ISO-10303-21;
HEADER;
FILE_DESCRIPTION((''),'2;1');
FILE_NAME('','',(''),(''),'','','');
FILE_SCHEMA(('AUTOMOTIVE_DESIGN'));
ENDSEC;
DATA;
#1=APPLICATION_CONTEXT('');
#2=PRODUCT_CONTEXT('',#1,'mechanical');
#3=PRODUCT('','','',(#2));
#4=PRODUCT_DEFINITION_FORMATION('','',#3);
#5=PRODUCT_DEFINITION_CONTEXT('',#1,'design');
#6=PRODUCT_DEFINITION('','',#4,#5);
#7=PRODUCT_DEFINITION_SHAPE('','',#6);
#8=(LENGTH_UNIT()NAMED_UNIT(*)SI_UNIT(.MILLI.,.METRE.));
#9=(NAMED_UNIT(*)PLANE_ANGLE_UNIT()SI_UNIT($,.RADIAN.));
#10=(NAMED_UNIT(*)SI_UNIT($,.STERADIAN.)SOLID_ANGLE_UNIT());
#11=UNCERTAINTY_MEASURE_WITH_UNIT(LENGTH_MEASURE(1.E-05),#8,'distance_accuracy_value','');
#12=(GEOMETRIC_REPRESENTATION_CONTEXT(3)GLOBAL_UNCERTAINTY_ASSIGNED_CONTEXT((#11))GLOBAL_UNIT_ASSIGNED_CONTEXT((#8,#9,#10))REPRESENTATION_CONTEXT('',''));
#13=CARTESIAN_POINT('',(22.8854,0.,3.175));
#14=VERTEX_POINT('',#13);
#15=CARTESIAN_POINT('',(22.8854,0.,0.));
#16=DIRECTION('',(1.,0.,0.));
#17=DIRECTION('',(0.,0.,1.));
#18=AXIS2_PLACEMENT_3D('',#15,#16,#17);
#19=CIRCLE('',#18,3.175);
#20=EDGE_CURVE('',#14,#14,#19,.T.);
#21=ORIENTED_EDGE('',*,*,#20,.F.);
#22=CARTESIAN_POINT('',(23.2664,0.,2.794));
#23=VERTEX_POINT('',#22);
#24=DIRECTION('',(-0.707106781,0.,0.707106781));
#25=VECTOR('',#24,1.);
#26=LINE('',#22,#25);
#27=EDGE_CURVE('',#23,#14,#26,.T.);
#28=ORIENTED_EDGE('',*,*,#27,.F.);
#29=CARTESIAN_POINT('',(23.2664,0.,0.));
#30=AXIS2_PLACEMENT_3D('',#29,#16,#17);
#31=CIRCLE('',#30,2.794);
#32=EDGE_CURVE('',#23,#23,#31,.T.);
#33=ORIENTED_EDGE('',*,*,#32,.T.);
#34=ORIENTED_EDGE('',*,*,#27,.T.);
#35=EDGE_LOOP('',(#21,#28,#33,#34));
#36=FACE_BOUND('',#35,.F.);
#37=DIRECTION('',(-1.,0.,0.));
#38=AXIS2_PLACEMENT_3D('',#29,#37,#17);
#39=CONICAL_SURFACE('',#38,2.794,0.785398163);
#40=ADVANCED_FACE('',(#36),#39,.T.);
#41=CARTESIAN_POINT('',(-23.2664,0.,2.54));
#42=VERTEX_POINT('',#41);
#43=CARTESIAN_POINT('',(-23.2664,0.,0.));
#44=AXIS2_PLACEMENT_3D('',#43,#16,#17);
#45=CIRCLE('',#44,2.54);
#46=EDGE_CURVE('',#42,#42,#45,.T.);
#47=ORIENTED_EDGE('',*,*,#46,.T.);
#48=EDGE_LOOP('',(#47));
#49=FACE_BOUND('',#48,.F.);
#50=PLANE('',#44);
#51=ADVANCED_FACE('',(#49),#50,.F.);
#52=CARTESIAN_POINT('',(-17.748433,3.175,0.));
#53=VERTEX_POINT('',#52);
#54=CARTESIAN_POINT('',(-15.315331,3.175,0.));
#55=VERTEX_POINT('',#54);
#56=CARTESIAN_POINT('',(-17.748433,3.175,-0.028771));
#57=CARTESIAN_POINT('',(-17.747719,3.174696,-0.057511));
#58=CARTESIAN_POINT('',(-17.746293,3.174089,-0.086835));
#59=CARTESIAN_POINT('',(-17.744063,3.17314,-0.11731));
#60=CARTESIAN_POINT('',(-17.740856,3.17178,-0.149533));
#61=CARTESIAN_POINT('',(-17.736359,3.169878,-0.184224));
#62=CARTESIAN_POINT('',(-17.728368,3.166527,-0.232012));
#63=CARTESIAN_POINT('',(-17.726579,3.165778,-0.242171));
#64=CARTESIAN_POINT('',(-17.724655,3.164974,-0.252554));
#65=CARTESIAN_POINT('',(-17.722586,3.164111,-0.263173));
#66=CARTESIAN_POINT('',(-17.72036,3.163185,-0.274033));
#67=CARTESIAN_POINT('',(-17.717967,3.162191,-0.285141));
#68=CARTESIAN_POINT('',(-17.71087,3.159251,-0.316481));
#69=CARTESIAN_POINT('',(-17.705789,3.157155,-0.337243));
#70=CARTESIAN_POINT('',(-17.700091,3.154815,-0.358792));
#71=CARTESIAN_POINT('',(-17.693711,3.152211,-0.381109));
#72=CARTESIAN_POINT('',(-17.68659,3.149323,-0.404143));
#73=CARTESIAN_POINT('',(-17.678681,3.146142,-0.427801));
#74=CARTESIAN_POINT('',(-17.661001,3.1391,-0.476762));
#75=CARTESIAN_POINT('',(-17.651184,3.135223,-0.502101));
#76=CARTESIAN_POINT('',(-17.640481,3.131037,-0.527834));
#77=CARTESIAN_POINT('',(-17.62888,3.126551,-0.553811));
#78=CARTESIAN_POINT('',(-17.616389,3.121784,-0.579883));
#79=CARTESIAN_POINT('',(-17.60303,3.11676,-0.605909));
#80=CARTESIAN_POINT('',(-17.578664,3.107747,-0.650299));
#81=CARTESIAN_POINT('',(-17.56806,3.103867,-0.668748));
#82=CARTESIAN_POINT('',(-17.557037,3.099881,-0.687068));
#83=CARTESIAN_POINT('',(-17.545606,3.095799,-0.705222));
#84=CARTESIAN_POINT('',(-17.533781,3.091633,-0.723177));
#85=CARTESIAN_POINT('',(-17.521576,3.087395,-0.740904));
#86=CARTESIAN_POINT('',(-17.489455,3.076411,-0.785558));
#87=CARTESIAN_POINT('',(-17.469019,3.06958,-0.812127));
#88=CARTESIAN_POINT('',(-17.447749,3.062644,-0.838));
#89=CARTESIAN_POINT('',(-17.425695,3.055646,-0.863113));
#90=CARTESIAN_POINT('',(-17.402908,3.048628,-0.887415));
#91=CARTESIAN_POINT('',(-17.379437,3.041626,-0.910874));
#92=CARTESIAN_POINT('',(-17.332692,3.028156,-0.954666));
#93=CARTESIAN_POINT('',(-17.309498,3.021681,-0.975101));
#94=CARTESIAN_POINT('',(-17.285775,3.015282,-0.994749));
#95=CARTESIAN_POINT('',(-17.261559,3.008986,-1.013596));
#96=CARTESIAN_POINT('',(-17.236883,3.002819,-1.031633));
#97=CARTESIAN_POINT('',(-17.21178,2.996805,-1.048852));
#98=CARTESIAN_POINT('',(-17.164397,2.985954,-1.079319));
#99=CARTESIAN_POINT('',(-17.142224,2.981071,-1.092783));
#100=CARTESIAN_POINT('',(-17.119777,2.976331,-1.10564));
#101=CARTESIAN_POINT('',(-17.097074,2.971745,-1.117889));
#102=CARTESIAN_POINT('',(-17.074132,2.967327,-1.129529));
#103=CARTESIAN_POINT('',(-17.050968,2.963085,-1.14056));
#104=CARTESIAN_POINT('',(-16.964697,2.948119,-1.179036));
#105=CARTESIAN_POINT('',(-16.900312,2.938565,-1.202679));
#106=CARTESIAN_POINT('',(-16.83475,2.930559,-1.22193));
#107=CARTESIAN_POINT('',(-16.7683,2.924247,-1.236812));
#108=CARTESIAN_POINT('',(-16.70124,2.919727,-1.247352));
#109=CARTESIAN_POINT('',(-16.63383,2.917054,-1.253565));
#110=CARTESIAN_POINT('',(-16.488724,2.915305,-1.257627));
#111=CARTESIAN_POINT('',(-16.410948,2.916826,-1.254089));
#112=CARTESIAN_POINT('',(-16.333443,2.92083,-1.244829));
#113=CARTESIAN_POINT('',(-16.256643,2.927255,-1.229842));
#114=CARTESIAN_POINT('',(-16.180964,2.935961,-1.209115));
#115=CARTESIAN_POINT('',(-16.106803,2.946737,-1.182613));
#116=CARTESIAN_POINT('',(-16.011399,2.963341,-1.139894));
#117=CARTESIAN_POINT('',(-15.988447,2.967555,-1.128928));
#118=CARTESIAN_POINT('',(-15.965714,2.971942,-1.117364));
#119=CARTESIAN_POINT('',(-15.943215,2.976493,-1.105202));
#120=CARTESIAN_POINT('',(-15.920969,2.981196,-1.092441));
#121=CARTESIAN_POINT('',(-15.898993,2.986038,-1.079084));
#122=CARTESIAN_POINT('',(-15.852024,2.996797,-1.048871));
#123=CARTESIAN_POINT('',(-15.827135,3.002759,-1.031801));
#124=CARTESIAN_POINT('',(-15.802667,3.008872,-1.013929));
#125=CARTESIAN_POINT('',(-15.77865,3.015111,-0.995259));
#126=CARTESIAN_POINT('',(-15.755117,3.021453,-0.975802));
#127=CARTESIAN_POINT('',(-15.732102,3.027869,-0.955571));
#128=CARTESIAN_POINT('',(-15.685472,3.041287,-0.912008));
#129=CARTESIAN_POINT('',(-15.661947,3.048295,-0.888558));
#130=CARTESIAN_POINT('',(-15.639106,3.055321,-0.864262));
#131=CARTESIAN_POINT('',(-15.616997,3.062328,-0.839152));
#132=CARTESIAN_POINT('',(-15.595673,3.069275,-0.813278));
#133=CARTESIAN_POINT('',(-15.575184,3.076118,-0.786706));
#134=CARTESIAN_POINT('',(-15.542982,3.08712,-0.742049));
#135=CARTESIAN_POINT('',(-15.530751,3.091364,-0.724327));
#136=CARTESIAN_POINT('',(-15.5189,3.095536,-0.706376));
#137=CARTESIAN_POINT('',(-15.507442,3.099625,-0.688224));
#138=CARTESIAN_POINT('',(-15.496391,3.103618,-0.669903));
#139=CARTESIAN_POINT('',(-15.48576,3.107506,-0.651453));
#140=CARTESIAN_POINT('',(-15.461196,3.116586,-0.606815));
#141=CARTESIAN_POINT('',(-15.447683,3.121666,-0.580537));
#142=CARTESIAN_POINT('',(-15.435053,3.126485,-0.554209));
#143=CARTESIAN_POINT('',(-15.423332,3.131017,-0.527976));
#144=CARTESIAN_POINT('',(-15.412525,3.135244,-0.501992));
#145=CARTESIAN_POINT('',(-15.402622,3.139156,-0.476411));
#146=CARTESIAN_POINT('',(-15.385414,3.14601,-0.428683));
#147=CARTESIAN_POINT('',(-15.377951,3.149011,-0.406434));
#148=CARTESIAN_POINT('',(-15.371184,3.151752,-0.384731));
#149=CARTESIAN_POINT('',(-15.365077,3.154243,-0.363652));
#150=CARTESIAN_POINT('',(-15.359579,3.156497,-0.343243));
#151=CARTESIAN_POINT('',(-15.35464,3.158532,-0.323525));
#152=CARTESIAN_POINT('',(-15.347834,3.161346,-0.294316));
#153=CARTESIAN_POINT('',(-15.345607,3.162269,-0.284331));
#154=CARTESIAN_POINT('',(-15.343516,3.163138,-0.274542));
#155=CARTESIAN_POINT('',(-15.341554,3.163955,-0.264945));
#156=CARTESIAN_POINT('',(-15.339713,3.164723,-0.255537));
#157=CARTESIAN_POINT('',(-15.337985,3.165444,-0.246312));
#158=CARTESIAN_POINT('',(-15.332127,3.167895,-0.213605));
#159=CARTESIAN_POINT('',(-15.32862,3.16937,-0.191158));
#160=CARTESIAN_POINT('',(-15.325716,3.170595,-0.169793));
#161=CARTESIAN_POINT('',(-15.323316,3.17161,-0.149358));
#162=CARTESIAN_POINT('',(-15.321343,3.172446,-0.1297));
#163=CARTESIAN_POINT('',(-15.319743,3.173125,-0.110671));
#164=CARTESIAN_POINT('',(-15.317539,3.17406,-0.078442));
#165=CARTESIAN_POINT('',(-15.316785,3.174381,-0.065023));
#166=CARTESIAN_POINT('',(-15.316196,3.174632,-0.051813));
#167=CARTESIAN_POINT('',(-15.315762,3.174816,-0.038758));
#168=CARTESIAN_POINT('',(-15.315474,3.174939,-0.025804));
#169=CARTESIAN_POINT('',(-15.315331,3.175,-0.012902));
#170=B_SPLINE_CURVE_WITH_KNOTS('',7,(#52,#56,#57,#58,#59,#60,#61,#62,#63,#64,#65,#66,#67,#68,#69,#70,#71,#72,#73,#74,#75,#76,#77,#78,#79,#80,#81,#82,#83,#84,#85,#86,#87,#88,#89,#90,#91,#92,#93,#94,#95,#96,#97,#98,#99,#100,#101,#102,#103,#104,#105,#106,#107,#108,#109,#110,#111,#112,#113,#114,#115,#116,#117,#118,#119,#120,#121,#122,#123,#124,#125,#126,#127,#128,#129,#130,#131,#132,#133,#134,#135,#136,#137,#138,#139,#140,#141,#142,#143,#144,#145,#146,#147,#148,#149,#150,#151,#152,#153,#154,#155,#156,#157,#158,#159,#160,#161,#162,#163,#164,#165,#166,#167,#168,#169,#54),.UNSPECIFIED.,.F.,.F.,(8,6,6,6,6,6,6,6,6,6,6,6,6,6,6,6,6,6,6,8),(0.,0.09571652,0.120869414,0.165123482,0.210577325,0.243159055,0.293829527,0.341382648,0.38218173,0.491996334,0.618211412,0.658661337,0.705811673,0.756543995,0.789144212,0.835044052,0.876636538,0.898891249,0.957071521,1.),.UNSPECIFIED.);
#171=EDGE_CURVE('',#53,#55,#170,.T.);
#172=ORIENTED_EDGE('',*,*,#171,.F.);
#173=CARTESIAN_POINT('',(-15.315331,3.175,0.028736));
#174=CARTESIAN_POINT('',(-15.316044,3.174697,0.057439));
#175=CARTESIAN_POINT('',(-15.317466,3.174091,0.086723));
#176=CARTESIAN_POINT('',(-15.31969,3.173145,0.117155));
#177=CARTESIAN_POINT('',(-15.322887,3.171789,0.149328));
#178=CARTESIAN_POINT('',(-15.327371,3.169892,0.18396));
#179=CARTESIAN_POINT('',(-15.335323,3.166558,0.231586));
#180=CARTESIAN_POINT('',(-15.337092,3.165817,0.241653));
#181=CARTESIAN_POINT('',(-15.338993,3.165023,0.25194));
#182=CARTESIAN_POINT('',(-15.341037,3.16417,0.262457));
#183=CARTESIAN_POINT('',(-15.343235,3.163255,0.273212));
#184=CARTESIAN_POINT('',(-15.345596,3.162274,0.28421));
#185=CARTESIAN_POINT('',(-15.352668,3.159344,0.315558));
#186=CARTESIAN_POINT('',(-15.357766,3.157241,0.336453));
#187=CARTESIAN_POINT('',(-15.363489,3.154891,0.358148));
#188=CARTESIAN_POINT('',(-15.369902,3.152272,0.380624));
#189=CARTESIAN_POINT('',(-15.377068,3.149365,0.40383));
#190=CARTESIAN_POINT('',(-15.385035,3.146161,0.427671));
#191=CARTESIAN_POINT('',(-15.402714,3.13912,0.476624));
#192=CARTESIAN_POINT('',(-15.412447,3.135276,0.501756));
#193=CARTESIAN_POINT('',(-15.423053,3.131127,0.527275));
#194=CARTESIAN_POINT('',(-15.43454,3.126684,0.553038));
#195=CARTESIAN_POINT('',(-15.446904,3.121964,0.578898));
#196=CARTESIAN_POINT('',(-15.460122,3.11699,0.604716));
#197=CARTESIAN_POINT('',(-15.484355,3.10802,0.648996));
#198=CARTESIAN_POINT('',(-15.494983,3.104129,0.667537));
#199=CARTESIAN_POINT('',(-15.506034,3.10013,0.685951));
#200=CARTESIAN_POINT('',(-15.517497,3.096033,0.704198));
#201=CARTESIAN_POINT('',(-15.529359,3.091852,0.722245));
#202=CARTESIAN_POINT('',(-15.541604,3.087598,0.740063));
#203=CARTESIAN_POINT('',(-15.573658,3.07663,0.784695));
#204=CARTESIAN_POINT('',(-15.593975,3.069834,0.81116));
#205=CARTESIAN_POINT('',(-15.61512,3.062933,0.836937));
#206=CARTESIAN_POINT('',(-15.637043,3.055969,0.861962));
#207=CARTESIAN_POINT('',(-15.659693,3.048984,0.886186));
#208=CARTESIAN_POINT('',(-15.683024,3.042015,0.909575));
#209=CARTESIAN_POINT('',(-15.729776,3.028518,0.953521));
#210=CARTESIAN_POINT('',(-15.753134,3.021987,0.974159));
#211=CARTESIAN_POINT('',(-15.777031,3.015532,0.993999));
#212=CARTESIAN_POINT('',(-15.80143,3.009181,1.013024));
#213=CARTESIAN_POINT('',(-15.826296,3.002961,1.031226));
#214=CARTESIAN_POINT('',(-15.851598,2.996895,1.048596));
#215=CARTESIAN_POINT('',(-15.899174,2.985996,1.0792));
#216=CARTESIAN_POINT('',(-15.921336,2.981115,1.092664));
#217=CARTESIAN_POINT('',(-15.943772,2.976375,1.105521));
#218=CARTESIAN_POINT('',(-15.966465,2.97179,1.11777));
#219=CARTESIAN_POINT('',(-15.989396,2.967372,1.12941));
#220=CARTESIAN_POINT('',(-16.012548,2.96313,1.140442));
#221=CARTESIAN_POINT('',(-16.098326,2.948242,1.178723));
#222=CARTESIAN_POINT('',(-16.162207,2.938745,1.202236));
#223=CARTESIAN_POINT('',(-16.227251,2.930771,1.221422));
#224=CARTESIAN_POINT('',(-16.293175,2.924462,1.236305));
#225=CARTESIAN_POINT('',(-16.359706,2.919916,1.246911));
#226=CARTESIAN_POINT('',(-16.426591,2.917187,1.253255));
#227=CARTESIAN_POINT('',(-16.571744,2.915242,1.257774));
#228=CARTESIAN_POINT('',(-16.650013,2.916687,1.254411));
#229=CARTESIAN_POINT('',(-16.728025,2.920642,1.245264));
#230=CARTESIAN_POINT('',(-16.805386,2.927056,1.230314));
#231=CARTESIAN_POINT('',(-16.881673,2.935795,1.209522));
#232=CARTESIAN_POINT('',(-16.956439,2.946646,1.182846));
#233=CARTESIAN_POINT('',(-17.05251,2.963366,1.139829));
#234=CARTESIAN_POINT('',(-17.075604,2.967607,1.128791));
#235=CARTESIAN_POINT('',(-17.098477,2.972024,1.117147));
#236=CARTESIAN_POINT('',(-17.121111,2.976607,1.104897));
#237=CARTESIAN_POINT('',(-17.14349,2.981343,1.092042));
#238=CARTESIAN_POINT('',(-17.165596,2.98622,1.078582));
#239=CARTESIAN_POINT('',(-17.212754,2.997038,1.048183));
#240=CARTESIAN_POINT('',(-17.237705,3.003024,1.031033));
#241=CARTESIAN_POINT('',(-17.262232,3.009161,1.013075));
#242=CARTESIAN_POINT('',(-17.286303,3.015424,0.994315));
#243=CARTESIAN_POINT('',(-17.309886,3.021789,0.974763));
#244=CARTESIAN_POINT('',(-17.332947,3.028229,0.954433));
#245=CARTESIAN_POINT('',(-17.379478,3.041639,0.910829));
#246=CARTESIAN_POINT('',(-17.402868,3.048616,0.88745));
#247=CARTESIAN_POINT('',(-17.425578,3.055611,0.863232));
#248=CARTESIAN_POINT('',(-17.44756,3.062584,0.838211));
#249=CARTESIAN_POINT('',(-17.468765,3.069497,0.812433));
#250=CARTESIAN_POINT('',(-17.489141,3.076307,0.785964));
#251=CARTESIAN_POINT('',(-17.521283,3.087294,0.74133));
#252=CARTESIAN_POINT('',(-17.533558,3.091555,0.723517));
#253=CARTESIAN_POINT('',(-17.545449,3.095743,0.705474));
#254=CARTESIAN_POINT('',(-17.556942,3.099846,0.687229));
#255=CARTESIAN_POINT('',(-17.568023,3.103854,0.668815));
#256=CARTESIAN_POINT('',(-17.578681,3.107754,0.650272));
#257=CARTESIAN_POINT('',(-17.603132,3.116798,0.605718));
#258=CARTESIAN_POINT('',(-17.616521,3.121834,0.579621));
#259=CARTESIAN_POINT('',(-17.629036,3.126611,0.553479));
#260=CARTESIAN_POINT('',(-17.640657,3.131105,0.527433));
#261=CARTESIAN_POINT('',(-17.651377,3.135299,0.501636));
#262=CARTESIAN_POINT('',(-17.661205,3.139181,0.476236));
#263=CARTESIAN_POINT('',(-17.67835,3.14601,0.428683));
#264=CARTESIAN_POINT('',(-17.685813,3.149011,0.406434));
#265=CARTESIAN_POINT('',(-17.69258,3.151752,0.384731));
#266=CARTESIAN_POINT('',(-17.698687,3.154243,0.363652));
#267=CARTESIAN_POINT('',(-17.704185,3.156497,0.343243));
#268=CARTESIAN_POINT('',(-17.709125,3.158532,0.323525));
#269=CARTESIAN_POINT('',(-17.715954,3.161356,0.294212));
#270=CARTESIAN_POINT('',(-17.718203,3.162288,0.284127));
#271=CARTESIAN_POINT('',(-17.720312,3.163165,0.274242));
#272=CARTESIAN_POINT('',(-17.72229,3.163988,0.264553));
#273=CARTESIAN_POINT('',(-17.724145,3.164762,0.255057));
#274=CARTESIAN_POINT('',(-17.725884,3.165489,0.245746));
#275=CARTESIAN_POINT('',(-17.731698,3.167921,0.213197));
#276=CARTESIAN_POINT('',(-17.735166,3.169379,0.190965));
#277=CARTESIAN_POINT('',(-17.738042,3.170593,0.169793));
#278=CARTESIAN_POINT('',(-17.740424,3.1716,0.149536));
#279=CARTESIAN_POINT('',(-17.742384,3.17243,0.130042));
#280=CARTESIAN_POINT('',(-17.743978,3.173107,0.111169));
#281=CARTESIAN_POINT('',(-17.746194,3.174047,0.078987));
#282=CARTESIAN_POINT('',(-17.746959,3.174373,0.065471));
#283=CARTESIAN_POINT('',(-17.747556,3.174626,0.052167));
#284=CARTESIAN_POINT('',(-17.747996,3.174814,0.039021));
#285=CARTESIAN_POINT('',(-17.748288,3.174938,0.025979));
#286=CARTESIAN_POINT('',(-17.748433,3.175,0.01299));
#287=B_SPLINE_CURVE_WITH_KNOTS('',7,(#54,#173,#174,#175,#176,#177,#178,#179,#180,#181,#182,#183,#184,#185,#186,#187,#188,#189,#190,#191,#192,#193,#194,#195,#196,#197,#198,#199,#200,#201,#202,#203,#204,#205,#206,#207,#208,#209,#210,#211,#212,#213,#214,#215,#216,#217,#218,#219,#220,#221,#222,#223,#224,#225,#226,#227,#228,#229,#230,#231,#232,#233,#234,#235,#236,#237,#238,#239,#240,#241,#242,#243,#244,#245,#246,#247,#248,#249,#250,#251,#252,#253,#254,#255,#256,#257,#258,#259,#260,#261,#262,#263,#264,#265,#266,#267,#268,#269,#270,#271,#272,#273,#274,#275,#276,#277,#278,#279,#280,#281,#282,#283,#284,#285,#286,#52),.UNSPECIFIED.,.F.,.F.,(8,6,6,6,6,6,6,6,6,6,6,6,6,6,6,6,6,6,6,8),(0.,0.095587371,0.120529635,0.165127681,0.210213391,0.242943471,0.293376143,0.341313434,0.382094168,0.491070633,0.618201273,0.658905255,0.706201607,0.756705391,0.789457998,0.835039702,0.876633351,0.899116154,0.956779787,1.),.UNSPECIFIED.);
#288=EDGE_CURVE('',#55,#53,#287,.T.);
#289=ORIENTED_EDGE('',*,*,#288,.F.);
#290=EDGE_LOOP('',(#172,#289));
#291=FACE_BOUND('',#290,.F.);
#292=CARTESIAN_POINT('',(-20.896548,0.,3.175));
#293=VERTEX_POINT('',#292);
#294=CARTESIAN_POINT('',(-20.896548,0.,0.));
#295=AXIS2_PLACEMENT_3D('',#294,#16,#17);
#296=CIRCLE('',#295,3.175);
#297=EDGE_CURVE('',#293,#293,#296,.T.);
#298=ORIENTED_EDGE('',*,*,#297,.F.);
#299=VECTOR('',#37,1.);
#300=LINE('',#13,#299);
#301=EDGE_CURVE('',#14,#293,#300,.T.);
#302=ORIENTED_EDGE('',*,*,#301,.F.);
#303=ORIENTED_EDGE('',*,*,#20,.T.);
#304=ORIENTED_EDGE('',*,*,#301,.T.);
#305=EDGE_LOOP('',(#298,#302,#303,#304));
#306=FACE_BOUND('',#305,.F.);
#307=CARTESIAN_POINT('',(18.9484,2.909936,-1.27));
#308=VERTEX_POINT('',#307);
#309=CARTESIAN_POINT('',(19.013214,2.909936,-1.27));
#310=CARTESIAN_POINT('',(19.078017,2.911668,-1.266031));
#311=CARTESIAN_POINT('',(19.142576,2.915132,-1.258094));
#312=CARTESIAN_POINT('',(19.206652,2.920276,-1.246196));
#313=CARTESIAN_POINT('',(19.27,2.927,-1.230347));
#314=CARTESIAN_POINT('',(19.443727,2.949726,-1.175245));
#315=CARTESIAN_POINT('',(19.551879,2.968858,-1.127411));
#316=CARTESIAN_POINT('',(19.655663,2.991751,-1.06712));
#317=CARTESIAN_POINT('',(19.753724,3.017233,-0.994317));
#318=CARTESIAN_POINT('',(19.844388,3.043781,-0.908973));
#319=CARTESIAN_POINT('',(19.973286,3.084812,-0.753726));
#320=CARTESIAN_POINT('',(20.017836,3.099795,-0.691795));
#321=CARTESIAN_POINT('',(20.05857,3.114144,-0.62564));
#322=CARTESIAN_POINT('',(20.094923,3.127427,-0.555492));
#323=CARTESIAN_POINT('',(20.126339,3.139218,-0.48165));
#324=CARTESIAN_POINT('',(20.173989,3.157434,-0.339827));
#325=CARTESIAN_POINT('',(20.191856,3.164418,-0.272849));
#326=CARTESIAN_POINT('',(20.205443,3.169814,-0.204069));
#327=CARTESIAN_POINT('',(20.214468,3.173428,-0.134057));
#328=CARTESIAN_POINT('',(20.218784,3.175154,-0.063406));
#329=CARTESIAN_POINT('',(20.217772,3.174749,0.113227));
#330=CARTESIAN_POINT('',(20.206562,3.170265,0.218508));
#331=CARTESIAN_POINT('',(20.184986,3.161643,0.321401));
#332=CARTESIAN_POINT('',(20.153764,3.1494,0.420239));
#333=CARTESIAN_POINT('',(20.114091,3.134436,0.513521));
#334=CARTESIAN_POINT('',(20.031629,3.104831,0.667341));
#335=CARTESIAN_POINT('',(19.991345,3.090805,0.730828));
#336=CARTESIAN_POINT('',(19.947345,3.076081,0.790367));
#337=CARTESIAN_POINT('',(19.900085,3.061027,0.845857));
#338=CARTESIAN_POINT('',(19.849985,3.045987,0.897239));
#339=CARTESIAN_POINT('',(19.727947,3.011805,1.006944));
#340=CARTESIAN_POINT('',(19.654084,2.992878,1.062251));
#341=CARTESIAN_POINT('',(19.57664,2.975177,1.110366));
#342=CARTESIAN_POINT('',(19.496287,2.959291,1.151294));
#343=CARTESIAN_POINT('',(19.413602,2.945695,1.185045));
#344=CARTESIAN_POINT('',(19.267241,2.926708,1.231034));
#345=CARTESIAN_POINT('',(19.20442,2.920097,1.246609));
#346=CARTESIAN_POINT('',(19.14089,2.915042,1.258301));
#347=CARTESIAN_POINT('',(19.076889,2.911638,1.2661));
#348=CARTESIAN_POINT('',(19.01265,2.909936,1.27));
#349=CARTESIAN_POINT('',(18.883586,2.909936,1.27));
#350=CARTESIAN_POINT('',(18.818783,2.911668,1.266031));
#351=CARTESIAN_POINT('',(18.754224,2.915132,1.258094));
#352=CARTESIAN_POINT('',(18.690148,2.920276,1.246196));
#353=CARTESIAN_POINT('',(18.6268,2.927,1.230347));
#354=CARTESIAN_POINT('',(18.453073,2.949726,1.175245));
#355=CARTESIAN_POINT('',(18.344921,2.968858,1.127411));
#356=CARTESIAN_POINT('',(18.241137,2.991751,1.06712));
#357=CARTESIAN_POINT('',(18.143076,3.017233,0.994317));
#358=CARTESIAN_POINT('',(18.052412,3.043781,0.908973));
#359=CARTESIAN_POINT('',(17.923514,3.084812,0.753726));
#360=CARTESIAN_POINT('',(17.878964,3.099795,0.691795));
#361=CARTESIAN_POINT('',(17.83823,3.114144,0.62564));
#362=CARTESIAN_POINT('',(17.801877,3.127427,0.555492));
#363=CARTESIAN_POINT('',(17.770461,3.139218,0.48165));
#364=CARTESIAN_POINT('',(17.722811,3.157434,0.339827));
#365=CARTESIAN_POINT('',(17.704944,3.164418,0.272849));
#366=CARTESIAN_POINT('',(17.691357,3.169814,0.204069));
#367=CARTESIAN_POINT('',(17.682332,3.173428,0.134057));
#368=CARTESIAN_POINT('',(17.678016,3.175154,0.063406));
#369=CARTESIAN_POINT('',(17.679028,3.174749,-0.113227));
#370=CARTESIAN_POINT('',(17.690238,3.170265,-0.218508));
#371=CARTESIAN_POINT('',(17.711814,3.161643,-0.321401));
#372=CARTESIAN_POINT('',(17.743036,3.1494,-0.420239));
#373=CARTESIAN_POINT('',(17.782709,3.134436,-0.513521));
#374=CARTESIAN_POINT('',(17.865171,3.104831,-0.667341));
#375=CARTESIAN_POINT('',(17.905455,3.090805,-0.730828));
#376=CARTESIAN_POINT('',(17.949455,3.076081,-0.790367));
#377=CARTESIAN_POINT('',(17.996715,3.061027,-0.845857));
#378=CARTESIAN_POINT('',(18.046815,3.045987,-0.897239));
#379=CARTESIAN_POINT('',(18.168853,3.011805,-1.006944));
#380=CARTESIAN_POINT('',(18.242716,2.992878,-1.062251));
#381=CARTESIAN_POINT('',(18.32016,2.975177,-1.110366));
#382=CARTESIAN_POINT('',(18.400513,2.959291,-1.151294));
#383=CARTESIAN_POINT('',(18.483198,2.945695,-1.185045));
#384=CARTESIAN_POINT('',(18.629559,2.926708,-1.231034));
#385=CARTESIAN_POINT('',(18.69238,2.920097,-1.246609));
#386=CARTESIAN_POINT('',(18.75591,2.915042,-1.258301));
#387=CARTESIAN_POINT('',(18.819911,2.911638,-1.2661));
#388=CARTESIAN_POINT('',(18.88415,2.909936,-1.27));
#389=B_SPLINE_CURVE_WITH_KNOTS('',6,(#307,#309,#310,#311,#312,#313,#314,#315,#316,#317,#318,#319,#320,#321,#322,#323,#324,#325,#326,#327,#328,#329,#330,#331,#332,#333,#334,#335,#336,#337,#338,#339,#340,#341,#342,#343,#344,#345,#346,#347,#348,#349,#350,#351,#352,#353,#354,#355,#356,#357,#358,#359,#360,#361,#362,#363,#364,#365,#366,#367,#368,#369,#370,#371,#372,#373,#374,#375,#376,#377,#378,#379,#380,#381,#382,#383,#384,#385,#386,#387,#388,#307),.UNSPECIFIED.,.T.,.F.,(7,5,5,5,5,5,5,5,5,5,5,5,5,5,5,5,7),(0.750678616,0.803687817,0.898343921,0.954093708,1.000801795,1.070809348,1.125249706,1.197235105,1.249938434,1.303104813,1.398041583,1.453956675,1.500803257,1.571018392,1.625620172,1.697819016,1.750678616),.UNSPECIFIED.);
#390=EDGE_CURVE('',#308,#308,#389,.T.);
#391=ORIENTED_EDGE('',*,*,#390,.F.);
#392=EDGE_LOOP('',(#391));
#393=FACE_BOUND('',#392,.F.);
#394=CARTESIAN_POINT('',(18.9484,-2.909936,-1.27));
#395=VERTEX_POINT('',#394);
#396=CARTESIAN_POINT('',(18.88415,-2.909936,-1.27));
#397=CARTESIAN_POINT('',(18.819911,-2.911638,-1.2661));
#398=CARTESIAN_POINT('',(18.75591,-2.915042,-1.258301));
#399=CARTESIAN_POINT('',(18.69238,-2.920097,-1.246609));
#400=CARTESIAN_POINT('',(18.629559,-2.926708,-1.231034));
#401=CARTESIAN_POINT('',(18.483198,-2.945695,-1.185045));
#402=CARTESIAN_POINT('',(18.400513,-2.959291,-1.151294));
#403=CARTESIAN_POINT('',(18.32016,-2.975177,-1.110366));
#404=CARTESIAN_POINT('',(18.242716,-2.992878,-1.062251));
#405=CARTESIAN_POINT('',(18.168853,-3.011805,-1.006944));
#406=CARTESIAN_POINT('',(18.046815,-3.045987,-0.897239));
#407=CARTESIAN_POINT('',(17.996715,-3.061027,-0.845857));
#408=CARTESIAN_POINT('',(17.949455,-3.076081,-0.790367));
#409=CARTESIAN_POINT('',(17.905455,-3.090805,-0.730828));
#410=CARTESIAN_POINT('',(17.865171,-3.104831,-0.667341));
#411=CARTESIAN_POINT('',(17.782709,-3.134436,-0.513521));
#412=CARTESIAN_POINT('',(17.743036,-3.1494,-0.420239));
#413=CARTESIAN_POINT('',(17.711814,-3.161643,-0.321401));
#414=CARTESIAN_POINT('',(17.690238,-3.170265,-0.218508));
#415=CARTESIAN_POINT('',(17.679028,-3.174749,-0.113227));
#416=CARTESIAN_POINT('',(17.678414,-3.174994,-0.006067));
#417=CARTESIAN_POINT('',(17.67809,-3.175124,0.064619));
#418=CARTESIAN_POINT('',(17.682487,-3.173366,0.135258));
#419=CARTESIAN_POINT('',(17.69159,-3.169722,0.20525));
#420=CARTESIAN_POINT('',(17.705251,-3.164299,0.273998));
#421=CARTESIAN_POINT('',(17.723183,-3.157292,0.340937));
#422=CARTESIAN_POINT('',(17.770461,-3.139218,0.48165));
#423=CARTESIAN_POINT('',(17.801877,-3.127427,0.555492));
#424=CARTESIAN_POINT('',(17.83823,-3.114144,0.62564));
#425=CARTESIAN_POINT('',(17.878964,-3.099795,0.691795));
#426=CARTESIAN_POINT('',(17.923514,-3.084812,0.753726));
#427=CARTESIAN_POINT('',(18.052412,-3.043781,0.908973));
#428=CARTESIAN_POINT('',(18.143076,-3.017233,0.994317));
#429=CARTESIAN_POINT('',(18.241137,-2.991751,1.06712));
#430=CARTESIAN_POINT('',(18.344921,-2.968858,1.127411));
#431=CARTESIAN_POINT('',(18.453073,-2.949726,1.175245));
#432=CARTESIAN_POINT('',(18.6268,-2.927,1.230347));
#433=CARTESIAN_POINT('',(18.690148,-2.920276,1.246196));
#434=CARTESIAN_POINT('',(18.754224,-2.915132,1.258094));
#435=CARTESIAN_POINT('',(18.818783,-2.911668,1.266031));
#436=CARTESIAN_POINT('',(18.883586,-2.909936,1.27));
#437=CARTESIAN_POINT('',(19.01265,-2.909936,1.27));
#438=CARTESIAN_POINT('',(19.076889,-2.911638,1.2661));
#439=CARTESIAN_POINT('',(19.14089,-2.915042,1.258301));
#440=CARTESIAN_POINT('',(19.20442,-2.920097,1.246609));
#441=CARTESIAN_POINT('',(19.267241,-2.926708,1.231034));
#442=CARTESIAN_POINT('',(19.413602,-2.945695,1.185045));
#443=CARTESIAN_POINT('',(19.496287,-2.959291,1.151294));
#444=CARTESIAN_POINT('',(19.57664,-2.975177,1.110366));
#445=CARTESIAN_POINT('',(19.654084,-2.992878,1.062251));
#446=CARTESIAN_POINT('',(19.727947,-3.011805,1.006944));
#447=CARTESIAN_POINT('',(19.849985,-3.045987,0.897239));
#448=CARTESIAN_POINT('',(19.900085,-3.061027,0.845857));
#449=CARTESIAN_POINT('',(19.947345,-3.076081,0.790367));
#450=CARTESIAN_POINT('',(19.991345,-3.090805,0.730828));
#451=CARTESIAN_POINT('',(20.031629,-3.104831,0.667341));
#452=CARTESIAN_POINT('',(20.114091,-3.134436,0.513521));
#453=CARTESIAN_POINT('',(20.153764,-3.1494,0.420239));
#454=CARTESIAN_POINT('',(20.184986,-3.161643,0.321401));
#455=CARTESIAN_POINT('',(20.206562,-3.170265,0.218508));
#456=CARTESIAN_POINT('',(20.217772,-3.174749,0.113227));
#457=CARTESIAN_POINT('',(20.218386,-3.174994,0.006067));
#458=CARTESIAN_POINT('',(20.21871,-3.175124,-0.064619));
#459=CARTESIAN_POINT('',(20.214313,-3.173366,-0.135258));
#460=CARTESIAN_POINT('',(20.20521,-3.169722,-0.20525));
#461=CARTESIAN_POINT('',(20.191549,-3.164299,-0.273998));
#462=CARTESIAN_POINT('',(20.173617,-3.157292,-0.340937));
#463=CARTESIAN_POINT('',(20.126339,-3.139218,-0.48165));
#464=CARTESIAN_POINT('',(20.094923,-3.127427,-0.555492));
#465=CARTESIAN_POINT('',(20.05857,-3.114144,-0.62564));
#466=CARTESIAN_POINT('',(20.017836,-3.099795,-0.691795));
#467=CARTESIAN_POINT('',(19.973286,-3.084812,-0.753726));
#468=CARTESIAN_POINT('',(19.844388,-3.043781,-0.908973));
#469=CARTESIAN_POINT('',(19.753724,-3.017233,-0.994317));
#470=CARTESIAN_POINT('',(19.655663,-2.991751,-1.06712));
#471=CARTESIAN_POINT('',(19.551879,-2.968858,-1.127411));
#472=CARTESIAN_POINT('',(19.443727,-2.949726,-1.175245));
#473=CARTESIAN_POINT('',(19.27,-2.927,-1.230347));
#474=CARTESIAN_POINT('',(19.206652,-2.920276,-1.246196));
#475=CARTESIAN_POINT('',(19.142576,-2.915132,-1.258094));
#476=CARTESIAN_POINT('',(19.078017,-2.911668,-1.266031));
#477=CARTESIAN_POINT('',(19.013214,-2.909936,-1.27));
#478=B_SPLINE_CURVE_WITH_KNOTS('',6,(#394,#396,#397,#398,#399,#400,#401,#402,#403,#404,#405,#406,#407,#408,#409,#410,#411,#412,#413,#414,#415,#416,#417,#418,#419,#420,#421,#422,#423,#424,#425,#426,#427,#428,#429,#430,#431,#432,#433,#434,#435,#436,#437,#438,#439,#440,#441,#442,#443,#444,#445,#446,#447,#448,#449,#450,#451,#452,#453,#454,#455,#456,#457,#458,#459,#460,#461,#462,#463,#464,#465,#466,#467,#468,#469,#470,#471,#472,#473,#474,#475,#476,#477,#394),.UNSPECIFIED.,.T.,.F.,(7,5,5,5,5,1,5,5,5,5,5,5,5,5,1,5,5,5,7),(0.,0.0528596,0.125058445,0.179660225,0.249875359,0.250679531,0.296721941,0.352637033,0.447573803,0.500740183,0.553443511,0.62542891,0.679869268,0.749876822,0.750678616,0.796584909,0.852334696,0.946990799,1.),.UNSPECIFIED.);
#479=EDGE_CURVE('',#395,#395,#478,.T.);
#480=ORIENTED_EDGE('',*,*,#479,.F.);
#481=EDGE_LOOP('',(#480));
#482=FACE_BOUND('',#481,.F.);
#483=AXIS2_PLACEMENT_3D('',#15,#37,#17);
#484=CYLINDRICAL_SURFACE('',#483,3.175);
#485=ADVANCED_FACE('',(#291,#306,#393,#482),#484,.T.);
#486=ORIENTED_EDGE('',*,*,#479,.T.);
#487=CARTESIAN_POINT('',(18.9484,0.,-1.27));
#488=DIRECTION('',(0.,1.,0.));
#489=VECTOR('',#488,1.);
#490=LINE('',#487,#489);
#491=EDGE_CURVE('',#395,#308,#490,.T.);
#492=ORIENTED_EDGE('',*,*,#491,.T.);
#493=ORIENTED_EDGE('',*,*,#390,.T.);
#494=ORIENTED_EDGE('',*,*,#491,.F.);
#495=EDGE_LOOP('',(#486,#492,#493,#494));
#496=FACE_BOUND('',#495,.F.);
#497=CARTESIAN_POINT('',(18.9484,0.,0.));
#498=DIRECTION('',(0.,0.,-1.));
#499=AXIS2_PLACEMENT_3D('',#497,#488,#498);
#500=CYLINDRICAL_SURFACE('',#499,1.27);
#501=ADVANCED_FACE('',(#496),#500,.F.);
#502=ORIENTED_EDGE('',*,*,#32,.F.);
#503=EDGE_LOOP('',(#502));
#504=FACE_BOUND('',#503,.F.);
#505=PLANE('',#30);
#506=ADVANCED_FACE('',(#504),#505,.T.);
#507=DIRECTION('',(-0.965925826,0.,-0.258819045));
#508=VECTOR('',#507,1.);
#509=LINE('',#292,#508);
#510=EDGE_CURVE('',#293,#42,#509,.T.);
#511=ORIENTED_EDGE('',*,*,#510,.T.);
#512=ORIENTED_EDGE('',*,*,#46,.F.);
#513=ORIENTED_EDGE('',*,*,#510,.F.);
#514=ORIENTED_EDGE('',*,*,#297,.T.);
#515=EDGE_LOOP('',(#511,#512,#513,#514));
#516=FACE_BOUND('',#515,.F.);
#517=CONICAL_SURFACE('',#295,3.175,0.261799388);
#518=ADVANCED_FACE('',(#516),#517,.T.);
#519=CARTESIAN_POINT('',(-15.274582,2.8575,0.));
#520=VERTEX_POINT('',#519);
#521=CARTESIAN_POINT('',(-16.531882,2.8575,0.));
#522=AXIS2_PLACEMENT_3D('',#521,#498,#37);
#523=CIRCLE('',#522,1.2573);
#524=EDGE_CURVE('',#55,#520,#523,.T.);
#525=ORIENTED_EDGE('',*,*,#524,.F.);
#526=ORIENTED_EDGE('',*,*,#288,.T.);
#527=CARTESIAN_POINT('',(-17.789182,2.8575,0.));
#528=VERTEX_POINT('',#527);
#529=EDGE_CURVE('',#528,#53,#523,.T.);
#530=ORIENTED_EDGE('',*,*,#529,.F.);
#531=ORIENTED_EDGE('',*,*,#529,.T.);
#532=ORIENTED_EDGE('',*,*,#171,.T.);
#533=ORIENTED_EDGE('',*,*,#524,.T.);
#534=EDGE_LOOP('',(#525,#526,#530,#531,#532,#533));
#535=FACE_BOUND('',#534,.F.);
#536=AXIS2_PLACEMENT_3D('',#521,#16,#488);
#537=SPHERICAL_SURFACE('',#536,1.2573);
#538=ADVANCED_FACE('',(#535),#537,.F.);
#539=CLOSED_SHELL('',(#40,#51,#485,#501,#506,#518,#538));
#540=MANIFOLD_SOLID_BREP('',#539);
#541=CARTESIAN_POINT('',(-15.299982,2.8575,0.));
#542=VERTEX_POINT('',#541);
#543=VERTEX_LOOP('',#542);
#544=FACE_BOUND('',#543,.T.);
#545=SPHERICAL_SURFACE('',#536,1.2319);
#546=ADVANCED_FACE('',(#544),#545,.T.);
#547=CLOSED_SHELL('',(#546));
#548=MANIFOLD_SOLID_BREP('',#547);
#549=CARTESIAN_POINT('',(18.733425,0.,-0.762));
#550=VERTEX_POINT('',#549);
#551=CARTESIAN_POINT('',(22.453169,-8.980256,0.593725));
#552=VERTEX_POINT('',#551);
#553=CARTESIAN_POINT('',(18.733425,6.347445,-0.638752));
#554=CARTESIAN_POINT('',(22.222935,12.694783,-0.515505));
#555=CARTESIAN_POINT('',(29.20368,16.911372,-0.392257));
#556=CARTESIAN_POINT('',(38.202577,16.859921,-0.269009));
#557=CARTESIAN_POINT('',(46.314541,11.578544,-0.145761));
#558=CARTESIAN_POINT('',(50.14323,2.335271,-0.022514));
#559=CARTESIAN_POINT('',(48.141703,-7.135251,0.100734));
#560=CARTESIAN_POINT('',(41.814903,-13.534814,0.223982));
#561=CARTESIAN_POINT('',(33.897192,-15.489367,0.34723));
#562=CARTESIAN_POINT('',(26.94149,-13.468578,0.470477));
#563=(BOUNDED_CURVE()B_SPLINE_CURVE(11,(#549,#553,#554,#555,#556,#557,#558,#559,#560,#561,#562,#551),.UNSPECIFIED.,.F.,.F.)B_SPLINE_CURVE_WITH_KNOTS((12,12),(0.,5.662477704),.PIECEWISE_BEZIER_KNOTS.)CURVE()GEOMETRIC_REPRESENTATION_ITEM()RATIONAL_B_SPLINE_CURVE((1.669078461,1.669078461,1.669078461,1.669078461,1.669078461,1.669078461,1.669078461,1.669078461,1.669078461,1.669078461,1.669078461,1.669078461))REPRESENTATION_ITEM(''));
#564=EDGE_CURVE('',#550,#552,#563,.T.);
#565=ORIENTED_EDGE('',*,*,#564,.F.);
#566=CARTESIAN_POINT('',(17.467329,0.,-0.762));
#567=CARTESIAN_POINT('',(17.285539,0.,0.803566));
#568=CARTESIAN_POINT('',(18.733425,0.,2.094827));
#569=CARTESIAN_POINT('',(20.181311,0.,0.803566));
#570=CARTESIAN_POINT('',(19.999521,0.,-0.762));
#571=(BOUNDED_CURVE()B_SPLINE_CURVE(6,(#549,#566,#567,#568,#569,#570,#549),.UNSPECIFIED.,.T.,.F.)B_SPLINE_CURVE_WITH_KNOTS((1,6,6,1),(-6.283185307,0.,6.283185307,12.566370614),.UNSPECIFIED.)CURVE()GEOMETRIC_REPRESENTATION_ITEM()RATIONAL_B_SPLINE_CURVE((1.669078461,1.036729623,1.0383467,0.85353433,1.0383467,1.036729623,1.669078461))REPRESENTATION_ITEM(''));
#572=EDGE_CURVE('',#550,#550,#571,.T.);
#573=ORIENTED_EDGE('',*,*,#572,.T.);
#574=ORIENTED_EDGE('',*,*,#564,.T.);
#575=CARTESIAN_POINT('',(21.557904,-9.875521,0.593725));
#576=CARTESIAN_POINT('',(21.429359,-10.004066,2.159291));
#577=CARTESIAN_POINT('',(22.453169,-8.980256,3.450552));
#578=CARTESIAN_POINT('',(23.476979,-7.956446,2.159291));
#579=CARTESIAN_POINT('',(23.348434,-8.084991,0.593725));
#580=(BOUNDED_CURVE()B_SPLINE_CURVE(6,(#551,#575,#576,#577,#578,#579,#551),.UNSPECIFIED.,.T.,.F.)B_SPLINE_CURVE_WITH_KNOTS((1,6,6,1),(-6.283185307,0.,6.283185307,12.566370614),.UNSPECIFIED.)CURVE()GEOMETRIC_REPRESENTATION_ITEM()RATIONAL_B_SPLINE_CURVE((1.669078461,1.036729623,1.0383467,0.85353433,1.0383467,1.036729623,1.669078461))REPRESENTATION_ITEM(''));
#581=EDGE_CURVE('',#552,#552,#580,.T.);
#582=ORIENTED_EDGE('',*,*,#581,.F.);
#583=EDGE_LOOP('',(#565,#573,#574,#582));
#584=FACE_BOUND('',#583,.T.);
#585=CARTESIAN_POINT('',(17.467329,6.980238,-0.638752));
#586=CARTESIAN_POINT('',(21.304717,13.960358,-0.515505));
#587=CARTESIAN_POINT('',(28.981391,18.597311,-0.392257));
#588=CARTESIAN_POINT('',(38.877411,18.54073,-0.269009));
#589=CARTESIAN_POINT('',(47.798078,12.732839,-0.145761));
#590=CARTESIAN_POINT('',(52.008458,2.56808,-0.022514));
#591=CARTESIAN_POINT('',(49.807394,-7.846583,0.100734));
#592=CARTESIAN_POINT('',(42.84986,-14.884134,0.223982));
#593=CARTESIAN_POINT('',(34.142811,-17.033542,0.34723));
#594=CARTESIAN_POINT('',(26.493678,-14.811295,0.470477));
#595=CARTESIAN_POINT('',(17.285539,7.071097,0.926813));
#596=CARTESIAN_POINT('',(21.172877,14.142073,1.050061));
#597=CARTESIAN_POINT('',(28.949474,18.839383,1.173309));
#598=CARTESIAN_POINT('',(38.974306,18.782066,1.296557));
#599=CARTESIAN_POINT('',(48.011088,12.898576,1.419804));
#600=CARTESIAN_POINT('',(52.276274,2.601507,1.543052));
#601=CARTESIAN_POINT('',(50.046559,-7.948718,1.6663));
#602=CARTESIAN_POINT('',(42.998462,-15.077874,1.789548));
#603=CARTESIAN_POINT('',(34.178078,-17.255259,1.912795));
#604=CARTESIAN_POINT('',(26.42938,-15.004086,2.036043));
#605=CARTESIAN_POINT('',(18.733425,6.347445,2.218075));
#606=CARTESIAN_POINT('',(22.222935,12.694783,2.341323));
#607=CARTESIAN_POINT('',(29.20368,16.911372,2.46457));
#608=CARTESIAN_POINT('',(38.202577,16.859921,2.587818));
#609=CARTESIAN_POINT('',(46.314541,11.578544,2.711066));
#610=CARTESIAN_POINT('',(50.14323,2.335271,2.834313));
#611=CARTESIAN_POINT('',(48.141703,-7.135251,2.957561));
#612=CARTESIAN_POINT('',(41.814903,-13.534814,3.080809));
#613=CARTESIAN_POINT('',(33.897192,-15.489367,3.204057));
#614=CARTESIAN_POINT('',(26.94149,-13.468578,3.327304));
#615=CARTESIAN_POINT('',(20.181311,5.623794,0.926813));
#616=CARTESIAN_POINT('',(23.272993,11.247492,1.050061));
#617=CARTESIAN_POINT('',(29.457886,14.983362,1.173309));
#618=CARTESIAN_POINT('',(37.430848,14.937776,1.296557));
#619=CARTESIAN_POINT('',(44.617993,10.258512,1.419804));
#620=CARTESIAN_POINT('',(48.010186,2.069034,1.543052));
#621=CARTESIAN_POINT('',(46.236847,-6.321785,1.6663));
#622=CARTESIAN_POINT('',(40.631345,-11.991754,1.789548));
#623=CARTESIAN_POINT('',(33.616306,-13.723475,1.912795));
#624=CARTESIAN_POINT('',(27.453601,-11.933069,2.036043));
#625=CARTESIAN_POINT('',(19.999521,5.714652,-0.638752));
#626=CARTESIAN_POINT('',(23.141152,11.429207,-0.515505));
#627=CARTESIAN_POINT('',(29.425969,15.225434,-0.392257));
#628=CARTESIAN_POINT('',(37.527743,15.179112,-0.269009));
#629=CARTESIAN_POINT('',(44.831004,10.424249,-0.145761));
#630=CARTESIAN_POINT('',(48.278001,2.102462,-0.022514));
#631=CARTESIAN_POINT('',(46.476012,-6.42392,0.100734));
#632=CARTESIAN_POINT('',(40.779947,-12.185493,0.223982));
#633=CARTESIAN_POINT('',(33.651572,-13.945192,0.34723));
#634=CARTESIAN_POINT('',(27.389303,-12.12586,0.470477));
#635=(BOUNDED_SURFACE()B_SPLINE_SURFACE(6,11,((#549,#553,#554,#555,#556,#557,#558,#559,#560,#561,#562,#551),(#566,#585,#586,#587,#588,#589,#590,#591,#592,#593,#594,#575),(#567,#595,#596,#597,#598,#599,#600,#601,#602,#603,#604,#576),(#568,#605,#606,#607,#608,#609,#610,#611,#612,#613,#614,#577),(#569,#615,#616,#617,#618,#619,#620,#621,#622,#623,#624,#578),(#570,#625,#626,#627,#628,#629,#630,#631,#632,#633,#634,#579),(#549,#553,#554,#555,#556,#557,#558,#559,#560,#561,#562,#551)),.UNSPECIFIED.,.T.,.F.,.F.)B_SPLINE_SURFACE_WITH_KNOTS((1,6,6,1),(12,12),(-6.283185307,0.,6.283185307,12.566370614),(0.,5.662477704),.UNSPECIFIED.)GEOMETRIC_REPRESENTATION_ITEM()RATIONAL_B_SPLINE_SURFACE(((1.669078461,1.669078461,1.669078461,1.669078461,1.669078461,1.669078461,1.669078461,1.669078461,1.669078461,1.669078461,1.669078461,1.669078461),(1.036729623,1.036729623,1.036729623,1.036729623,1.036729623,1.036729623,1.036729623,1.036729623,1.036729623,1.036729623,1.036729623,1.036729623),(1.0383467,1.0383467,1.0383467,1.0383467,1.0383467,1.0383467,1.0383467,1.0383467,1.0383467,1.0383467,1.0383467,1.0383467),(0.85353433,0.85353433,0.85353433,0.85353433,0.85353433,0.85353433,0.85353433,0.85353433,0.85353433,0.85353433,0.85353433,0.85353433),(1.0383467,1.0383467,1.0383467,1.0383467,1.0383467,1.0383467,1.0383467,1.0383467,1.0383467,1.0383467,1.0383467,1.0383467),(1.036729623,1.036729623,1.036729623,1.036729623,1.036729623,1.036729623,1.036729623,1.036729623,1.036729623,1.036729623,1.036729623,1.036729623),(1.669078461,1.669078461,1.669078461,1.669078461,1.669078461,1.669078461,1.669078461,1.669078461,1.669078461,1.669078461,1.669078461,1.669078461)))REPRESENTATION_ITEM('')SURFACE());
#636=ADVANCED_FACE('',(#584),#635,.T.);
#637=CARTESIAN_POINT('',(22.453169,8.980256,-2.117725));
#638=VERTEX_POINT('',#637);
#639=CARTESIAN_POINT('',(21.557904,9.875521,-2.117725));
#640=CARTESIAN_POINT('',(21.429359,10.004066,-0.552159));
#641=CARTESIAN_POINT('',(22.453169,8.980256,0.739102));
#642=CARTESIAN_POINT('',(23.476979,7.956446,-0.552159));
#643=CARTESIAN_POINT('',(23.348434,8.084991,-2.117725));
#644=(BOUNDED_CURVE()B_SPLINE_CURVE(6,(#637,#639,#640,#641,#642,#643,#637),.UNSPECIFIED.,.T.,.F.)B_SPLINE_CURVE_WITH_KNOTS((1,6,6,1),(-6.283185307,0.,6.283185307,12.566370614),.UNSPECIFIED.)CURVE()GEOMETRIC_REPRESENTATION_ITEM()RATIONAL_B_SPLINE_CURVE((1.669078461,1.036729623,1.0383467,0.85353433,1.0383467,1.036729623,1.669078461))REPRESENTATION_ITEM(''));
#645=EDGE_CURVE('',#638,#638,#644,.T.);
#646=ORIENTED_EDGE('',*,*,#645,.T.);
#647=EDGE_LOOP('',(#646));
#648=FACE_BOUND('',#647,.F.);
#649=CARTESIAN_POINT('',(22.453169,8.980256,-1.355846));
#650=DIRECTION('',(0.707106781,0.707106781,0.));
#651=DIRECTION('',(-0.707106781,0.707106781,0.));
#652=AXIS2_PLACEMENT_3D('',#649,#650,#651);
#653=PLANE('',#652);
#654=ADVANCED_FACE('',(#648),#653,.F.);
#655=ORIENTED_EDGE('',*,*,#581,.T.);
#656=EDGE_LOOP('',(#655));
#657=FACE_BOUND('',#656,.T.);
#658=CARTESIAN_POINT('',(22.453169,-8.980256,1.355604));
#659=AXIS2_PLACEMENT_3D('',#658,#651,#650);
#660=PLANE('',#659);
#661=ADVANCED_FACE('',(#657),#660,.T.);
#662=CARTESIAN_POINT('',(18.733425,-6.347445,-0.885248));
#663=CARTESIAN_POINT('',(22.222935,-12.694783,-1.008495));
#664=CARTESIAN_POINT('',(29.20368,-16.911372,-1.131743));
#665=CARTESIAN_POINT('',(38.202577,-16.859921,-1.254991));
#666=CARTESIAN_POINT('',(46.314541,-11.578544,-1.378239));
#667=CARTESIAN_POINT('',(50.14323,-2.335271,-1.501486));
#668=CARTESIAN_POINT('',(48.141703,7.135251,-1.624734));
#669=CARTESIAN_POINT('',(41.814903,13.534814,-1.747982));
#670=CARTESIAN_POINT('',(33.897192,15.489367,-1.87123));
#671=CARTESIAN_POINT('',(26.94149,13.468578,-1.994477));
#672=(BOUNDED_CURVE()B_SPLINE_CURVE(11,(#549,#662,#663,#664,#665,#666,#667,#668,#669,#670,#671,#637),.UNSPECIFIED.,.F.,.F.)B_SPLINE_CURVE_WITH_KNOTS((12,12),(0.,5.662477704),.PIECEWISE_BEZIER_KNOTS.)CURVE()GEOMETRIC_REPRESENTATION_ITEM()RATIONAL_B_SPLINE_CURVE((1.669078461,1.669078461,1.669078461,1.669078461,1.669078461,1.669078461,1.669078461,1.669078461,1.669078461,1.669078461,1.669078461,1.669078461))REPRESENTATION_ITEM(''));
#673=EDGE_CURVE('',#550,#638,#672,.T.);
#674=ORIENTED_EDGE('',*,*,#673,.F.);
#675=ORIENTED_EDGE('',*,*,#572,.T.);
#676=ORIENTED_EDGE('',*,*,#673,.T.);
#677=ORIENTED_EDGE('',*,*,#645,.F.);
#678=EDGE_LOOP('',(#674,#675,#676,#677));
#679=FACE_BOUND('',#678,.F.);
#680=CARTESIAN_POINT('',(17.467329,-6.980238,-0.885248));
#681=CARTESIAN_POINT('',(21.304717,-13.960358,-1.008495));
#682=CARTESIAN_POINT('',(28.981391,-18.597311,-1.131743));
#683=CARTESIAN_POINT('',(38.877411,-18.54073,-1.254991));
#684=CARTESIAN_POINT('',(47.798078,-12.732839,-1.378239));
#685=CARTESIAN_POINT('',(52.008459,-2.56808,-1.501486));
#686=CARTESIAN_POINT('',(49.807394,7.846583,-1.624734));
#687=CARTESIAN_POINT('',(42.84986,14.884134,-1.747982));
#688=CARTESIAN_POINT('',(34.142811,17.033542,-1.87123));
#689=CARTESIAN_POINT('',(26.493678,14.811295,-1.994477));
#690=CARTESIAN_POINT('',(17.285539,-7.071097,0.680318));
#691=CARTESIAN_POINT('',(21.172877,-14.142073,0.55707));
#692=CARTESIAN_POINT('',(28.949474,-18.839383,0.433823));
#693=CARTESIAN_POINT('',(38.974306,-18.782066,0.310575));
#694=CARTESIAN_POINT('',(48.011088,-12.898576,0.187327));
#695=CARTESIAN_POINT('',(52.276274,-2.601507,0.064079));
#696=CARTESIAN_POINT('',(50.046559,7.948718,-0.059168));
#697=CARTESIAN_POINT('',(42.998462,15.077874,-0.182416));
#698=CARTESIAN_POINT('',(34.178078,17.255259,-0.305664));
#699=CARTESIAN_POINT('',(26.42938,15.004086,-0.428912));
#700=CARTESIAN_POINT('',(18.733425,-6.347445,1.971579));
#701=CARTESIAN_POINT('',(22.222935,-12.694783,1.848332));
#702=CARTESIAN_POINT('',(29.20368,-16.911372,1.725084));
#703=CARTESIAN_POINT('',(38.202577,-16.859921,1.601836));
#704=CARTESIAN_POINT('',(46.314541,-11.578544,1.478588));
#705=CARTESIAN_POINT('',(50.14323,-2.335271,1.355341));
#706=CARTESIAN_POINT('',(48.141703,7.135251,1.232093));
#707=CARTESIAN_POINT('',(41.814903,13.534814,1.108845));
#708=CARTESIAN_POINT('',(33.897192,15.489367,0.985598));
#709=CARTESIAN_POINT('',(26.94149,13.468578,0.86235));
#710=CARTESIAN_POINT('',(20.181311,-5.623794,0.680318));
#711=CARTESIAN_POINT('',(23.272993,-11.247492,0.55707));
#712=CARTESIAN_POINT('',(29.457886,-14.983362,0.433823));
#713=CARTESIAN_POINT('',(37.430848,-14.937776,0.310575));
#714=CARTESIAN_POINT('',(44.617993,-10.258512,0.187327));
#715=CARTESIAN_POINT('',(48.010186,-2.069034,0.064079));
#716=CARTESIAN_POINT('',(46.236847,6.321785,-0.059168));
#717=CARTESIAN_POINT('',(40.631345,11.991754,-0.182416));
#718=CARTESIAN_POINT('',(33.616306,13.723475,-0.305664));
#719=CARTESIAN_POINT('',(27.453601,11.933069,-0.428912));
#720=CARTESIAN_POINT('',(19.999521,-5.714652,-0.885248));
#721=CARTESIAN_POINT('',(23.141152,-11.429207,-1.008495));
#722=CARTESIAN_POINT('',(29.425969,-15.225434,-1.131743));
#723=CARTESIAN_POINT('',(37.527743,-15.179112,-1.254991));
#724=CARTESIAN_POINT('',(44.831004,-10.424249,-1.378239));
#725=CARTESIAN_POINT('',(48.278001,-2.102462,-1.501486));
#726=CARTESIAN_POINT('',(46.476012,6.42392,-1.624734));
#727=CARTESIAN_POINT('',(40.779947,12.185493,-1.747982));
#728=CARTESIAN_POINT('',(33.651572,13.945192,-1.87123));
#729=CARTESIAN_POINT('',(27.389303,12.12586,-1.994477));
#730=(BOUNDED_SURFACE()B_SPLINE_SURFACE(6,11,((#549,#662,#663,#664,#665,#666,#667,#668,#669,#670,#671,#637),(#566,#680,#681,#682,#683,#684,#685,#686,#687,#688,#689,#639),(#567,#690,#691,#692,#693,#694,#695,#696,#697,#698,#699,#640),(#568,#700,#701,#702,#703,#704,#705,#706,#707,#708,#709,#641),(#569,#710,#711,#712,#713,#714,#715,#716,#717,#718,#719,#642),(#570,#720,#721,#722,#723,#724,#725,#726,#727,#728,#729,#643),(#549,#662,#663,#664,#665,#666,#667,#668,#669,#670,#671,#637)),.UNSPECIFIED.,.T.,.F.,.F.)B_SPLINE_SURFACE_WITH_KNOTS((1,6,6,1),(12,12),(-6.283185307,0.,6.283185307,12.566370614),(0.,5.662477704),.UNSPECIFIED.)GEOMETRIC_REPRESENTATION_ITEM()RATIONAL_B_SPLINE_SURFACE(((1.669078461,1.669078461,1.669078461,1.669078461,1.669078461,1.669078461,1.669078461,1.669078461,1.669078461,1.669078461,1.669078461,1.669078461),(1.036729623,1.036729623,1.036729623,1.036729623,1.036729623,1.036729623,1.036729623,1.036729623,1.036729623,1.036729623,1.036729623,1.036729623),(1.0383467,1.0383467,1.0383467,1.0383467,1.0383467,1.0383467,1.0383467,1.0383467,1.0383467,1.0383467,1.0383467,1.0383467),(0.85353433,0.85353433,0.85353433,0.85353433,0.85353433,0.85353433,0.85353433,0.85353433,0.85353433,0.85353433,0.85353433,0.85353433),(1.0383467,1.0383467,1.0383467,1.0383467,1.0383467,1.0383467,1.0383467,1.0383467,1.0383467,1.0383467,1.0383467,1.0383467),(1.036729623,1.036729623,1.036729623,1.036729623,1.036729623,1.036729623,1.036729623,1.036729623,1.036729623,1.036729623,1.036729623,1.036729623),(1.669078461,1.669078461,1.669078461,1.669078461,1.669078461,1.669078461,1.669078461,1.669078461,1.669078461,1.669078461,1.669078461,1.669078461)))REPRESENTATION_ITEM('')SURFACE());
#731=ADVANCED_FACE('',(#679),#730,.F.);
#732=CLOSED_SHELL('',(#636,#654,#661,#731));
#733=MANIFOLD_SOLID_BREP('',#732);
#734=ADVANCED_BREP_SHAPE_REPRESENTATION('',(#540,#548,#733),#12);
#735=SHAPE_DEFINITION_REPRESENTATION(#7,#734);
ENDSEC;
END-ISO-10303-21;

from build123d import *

# Parameters (mm, degrees)
SKETCH4_W          = 1.27
SKETCH4_H          = 6.35
SWEEP1_PITCH       = 1.5494
SWEEP1_HEIGHT      = 1.355725
SWEEP1_RADIUS      = 13.462
SKETCH6_R          = 0.762
SWEEP2_PITCH       = 1.5494
SWEEP2_HEIGHT      = 1.355725
SWEEP2_RADIUS      = 13.462
SWEEP2_START_ANGLE = -180
SKETCH6_2_R        = 0.762


with BuildPart() as part:
    # Sketch1 → Revolve1 (revolve)
    with BuildSketch(Plane.XY, mode=Mode.PRIVATE) as revolve1_sk:
        Polygon((23.2664, 2.794), (22.8854, 3.175), (-20.896547737, 3.175), (-23.2664, 2.54), (-23.2664, 0), (23.2664, 0), align=None)
    revolve(revolve1_sk.sketch.rotate(Axis((23.2664, 0, 0), (1, 0, 0)), 90), axis=Axis((23.2664, 0, 0), (1, 0, 0)))

    # Sketch2 → Cut-Revolve1 (revolve, cut)
    with BuildSketch(Plane.XY):
        with BuildLine():
            Line((-15.274582051, 2.8575), (-17.789182051, 2.8575))
            ThreePointArc((-17.789182051, 2.8575), (-16.531882051, 4.1148), (-15.274582051, 2.8575))
        make_face()
    revolve(axis=Axis((-15.274582051, 2.8575, 0), (1, 0, 0)), mode=Mode.SUBTRACT)

    # Sketch4 → Cut-Revolve2 (revolve, cut)
    with BuildSketch(Plane.XY, mode=Mode.PRIVATE) as cut_revolve2_sk:
        with Locations((19.5834, 0)):
            Rectangle(SKETCH4_W, SKETCH4_H)
    revolve(cut_revolve2_sk.sketch.rotate(Axis((18.9484, -3.175, 0), (0, 1, 0)), 90), axis=Axis((18.9484, -3.175, 0), (0, 1, 0)), mode=Mode.SUBTRACT)


with BuildPart() as body_2:
    # Sketch3 → Revolve2 (revolve)
    with BuildSketch(Plane.XY):
        with BuildLine():
            Line((-15.299982051, 2.8575), (-17.763782051, 2.8575))
            ThreePointArc((-17.763782051, 2.8575), (-16.531882051, 4.0894), (-15.299982051, 2.8575))
        make_face()
    revolve(axis=Axis((-15.299982051, 2.8575, 0), (1, 0, 0)))


with BuildPart() as body_3:
    # Sweep1: sweep along a helix
    with BuildLine() as sweep1_path:
        Helix(SWEEP1_PITCH, SWEEP1_HEIGHT, SWEEP1_RADIUS, center=(31.433425091, 0, 0), direction=(0, 0, -1), lefthand=True)
    # Sketch6 → Sweep1 (sweep)
    with BuildSketch(Plane(origin=(114.003847968, 0, 0), x_dir=(0, 0, -1), z_dir=(0, 1, 0))):
        with Locations((0, 95.270422877)):
            Circle(SKETCH6_R)
    sweep(path=sweep1_path.line, is_frenet=True)

    # Sweep2: sweep along a helix
    with BuildLine() as sweep2_path:
        add(Helix(SWEEP2_PITCH, SWEEP2_HEIGHT, SWEEP2_RADIUS, center=(31.433425091, 0, 0), direction=(0, 0, 1), lefthand=True, mode=Mode.PRIVATE).rotate(Axis((31.433425091, 0, 0), (0, 0, 1)), SWEEP2_START_ANGLE))
    # Sketch6<2> → Sweep2 (sweep)
    with BuildSketch(Plane(origin=(114.003847968, 0, 0), x_dir=(0, 0, -1), z_dir=(0, 1, 0))):
        with Locations((0, 95.270422877)):
            Circle(SKETCH6_2_R)
    sweep(path=sweep2_path.line, is_frenet=True)


solid = Compound([part.part, body_2.part, body_3.part])
